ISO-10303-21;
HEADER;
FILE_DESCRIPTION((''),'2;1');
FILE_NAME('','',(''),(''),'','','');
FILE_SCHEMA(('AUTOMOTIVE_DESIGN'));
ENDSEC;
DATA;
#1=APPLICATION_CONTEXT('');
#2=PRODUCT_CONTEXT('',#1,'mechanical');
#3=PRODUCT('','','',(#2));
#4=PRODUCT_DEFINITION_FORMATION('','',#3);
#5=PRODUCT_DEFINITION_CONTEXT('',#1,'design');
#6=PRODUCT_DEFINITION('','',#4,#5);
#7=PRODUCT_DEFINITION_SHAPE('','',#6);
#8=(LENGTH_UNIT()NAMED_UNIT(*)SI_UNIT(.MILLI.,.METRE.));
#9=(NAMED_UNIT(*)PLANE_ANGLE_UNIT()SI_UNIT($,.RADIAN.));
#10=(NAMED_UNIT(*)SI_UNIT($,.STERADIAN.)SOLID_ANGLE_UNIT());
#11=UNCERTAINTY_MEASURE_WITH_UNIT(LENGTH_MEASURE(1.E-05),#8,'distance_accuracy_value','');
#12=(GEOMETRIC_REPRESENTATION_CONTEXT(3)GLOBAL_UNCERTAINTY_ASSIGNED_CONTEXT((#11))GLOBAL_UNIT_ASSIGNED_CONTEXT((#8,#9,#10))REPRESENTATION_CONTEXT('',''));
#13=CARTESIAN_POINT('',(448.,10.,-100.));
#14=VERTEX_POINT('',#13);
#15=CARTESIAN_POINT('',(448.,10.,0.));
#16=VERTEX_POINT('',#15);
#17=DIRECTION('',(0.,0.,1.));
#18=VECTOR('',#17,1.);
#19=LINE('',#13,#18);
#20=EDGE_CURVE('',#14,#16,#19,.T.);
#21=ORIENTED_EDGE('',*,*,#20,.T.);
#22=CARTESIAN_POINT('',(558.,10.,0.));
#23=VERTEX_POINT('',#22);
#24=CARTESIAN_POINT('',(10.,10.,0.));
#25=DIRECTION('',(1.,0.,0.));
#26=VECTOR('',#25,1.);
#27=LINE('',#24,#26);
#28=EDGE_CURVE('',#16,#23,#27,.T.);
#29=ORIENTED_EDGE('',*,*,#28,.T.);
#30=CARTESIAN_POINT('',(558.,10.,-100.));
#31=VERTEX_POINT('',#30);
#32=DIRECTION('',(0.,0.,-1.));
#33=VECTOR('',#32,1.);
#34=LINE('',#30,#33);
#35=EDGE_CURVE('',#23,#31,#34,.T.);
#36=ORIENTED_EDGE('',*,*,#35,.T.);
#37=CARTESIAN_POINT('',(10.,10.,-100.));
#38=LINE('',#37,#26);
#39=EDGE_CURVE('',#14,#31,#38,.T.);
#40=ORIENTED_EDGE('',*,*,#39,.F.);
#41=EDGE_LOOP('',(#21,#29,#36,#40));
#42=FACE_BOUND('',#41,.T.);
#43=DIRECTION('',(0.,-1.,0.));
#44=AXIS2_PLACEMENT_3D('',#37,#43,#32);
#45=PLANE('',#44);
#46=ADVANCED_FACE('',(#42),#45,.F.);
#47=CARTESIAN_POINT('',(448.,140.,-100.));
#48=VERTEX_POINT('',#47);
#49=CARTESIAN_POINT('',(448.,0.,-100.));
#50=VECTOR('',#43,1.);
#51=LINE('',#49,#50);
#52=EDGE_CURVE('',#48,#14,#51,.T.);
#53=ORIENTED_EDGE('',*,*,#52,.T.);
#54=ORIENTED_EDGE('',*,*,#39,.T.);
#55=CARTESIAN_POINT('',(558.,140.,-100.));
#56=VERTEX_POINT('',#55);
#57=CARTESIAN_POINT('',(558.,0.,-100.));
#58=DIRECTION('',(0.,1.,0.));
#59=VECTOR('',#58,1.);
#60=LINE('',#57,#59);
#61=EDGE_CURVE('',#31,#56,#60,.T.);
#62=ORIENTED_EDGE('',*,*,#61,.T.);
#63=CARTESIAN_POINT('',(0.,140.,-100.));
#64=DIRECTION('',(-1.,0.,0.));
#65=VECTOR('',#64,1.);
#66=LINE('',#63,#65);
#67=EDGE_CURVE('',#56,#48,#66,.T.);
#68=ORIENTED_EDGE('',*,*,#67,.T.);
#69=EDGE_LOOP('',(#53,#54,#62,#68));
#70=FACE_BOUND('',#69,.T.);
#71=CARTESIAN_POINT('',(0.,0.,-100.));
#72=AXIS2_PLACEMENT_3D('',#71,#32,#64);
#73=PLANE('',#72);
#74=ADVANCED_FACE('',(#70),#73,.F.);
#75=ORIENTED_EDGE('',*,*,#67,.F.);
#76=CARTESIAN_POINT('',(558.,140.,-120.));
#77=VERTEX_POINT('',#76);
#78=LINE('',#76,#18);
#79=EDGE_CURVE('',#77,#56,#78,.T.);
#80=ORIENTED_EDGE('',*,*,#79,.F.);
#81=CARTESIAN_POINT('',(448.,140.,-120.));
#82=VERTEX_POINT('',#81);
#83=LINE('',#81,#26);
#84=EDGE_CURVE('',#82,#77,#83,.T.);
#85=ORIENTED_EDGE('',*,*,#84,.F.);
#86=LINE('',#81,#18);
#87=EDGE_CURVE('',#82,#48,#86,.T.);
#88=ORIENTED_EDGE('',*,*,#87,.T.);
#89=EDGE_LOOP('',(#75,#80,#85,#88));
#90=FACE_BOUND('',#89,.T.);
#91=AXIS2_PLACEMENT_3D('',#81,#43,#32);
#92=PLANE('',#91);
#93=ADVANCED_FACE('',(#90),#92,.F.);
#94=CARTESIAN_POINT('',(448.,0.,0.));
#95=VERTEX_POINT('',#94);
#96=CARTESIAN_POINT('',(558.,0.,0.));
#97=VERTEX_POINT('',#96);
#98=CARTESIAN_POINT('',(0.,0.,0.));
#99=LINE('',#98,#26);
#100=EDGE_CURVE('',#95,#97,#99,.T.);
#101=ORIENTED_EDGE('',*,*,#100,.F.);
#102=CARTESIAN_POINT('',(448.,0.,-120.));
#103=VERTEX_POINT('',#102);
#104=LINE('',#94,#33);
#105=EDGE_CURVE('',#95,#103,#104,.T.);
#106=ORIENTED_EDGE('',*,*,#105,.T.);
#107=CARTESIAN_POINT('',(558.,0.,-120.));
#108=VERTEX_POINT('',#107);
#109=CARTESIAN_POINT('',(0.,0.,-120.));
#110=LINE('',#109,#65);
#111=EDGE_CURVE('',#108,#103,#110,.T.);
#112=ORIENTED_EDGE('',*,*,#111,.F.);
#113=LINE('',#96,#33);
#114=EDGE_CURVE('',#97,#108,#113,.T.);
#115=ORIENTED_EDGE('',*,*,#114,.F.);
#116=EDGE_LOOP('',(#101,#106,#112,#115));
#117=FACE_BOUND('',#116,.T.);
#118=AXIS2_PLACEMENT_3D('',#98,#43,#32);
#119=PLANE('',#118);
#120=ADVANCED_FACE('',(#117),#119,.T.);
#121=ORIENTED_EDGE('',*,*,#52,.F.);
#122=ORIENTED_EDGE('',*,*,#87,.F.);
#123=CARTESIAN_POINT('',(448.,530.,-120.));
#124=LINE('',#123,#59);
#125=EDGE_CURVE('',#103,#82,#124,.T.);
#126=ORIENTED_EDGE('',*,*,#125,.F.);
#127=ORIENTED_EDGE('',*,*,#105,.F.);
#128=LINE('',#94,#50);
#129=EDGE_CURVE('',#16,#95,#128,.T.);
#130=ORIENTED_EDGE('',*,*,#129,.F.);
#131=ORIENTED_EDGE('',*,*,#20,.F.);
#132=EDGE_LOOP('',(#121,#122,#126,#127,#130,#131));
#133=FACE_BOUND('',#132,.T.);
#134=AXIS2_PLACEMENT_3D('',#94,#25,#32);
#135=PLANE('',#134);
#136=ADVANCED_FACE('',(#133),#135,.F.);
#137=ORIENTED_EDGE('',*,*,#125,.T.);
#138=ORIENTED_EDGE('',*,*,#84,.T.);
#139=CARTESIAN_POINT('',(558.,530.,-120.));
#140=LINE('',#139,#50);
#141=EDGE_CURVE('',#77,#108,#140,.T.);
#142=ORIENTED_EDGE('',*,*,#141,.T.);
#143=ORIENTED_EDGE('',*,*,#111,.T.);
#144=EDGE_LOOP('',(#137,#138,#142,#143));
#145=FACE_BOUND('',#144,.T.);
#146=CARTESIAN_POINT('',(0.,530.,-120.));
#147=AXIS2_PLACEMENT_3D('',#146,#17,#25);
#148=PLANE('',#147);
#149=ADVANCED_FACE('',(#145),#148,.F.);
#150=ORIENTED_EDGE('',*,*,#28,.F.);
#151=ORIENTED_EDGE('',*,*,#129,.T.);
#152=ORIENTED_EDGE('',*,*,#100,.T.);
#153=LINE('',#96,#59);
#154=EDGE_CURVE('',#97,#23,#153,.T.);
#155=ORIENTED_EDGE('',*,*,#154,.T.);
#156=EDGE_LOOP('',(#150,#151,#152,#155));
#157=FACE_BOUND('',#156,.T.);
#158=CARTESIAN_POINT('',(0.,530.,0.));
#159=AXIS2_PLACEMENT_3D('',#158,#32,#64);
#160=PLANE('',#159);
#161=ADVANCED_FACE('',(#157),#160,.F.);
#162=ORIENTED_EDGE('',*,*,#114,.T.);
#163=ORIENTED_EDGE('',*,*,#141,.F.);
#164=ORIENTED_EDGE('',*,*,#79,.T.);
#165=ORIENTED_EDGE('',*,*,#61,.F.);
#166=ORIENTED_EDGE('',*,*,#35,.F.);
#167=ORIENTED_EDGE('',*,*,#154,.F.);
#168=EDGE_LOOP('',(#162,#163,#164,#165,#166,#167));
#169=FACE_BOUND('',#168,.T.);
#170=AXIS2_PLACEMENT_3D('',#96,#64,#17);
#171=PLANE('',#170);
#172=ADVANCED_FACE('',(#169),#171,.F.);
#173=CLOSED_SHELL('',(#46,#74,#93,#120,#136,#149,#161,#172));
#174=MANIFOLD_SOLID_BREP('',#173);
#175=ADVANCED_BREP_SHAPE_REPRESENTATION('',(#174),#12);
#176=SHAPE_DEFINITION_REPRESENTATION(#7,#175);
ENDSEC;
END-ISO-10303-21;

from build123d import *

# Parameters (mm, degrees)
SKETCH1_W                      = 670
SKETCH1_H                      = 120
BOSS_EXTRUDE1_DEPTH            = 530
SKETCH2_W                      = 100
SKETCH2_H                      = 200
SKETCH2_W_2                    = 650
SKETCH2_H_2                    = 250
CUT_EXTRUDE1_DEPTH             = 100
SKETCH3_R                      = 50
CUT_EXTRUDE2_DEPTH             = 260
F_12_0_12_DIAMETER_HOLE2_D     = 12
F_12_0_12_DIAMETER_HOLE2_DEPTH = 30
F_12_0_12_DIAMETER_HOLE2_TIP   = 3.605163714
SKETCH8_W                      = 650
SKETCH8_H                      = 50
BOSS_EXTRUDE2_DEPTH            = 5
SKETCH9_W                      = 10
SKETCH9_H                      = 250
CUT_EXTRUDE3_DEPTH             = 717
CUT_EXTRUDE4_DEPTH             = 5
SKETCH11_W                     = 10
SKETCH11_H                     = 100
BOSS_EXTRUDE3_DEPTH            = 78
BOSS_EXTRUDE3_2_DEPTH          = 78
BOSS_EXTRUDE3_3_DEPTH          = 78
SKETCH12_W                     = 20
SKETCH12_H                     = 30
CUT_EXTRUDE5_DEPTH             = 80
SKETCH15_W                     = 30
SKETCH15_H                     = 23.536156656
SKETCH15_H_2                   = 28.986603691
CUT_EXTRUDE7_DEPTH             = 35
SHELL1_T                       = -3
SKETCH16_W                     = 14
SKETCH16_H                     = 14
CUT_EXTRUDE8_DEPTH             = 35
SKETCH17_W                     = 5.729882812
SKETCH17_H                     = 17.428393554
SKETCH17_W_2                   = 13.369726562
SKETCH17_H_2                   = 3.342431641
BOSS_EXTRUDE4_DEPTH            = 5
CUT_EXTRUDE10_DEPTH            = 863.670273187
CUT_EXTRUDE10_DEPTH_BACK       = 863.670273187
SKETCH18_W                     = 670
SKETCH18_H                     = 250
CUT_EXTRUDE11_DEPTH            = 737.002717386
CUT_EXTRUDE11_DEPTH_BACK       = 737.002717386
SKETCH19_W                     = 448
SKETCH19_H                     = 280
SKETCH19_W_2                   = 112
CUT_EXTRUDE12_DEPTH            = 633.268930124
CUT_EXTRUDE12_DEPTH_BACK       = 633.268930124
SKETCH20_W                     = 110
SKETCH20_H                     = 140


with BuildPart() as part:
    # Sketch1 → Boss-Extrude1 (new body)
    with BuildSketch(Plane(origin=(0, 0, 0), x_dir=(1, 0, 0), z_dir=(0, 1, 0))):
        with Locations((335, 60)):
            Rectangle(SKETCH1_W, SKETCH1_H)
    extrude(amount=BOSS_EXTRUDE1_DEPTH)

    # Sketch2 → Cut-Extrude1 (cut)
    with BuildSketch(Plane.XY):
        with Locations((60, 380)):
            Rectangle(SKETCH2_W, SKETCH2_H)
        with Locations((170, 380)):
            Rectangle(SKETCH2_W, SKETCH2_H)
        with Locations((280, 380)):
            Rectangle(SKETCH2_W, SKETCH2_H)
        with Locations((390, 380)):
            Rectangle(SKETCH2_W, SKETCH2_H)
        with Locations((500, 380)):
            Rectangle(SKETCH2_W, SKETCH2_H)
        with Locations((610, 380)):
            Rectangle(SKETCH2_W, SKETCH2_H)
        with Locations((335, 135)):
            Rectangle(SKETCH2_W_2, SKETCH2_H_2)
    extrude(amount=-CUT_EXTRUDE1_DEPTH, mode=Mode.SUBTRACT)

    # Sketch3 → Cut-Extrude2 (cut)
    with BuildSketch(Plane(origin=(0, 530, 0), x_dir=(1, 0, 0), z_dir=(0, 1, 0))):
        with Locations(Location((60, 60, 0), (0, 0, 270))):
            Circle(SKETCH3_R)
        with Locations(Location((170, 60, 0), (0, 0, 270))):
            Circle(SKETCH3_R)
        with Locations(Location((280, 60, 0), (0, 0, 270))):
            Circle(SKETCH3_R)
        with Locations(Location((390, 60, 0), (0, 0, 270))):
            Circle(SKETCH3_R)
        with Locations(Location((500, 60, 0), (0, 0, 270))):
            Circle(SKETCH3_R)
        with Locations(Location((610, 60, 0), (0, 0, 270))):
            Circle(SKETCH3_R)
    extrude(amount=-CUT_EXTRUDE2_DEPTH, mode=Mode.SUBTRACT)

    # Ø12.0 (12) Diameter Hole2
    with Locations(Plane(origin=(59.704642413, 270, -102.411697903), x_dir=(0, 0, 1), z_dir=(0, 1, 0))):
        with Locations((0, 0), (-0.195888006, 111.8520513), (0.014838595, 221.167624818), (-0.341843303, 331.364008353), (0.657723149, 441.008646429), (1.288998006, 549.811854685)):
            Hole(F_12_0_12_DIAMETER_HOLE2_D / 2, depth=F_12_0_12_DIAMETER_HOLE2_DEPTH)
            with Locations((0, 0, -(F_12_0_12_DIAMETER_HOLE2_DEPTH + F_12_0_12_DIAMETER_HOLE2_TIP / 2))):  # 118° drill point
                Cone(0, F_12_0_12_DIAMETER_HOLE2_D / 2, F_12_0_12_DIAMETER_HOLE2_TIP, mode=Mode.SUBTRACT)

    # Sketch8 → Boss-Extrude2 (add)
    with BuildSketch(Plane.XY):
        with Locations((335, 305)):
            Rectangle(SKETCH8_W, SKETCH8_H)
    extrude(amount=-BOSS_EXTRUDE2_DEPTH)

    # Sketch9 → Cut-Extrude3 (cut)
    with BuildSketch(Plane(origin=(670, 0, 0), x_dir=(0, 0, -1), z_dir=(1, 0, 0))):
        with Locations((15, 135)):
            Rectangle(SKETCH9_W, SKETCH9_H)
    extrude(amount=-CUT_EXTRUDE3_DEPTH, mode=Mode.SUBTRACT)

    # Sketch10 → Cut-Extrude4 (cut)
    with BuildSketch(Plane(origin=(0, 10, 0), x_dir=(1, 0, 0), z_dir=(0, 1, 0))):
        Polygon((365, 61.943560596), (350, 87.924322709), (320, 87.924322709), (305, 61.943560596), (320, 35.962798482), (350, 35.962798482), align=None)
    extrude(amount=-CUT_EXTRUDE4_DEPTH, mode=Mode.SUBTRACT)

    # Sketch12 → Cut-Extrude5 (cut)
    with BuildSketch(Plane.XY.offset(-100)):
        with Locations((85.198613037, 245)):
            Rectangle(SKETCH12_W, SKETCH12_H)
        with Locations((195.198613037, 245)):
            Rectangle(SKETCH12_W, SKETCH12_H)
        with Locations((305.198613037, 245)):
            Rectangle(SKETCH12_W, SKETCH12_H)
        with Locations((415.198613037, 245)):
            Rectangle(SKETCH12_W, SKETCH12_H)
        with Locations((525.198613037, 245)):
            Rectangle(SKETCH12_W, SKETCH12_H)
        with Locations((635.198613037, 245)):
            Rectangle(SKETCH12_W, SKETCH12_H)
    extrude(amount=-CUT_EXTRUDE5_DEPTH, mode=Mode.SUBTRACT)

    # Sketch17 → Boss-Extrude4 (add)
    # profile 1 of 9: a face of its own
    with BuildSketch(Plane.XY):
        with BuildLine():
            Line((527.508830928, 289.835452458), (527.508830928, 307.263846012))
            Line((527.508830928, 307.263846012), (534.861434459, 307.263846012))
            add(Edge.make_bspline(
                [(534.861434459, 307.263846012), (535.181337774, 307.258256848), (535.803061116, 307.24739446), (536.703508491, 307.139069344), (537.544992916, 306.975202489), (538.325061607, 306.737496792), (539.040841948, 306.426020155), (539.698044515, 306.051894954), (540.290333057, 305.605079277), (540.822348212, 305.090232636), (541.284521701, 304.502523111), (541.692171296, 303.852565801), (542.030284458, 303.129762281), (542.309377095, 302.341316546), (542.5243908, 301.484161689), (542.679660381, 300.560045938), (542.773357357, 299.567500804), (542.783368073, 298.883107022), (542.788518428, 298.530997273)],
                knots=[0, 0, 0, 0, 1.135059408, 2.20595691, 3.214417064, 4.174978569, 5.094187092, 5.980001006, 6.853065862, 7.720814779, 8.600404634, 9.50058483, 10.438414914, 11.426825708, 12.465239141, 13.571113463, 14.750376389, 16, 16, 16, 16], degree=3))
            add(Edge.make_bspline(
                [(542.788518428, 298.530997273), (542.781740751, 298.180151665), (542.768592871, 297.499553336), (542.676885992, 296.511518461), (542.516733301, 295.591080531), (542.296748778, 294.736450427), (542.003051046, 293.953120444), (541.654236167, 293.233205539), (541.233025793, 292.585291498), (540.753136904, 292.000029304), (540.204772188, 291.484681411), (539.587651059, 291.044279297), (538.910779309, 290.668464036), (538.169670382, 290.361903209), (537.364073889, 290.124869172), (536.495133477, 289.954199984), (535.562644449, 289.853487388), (534.920131033, 289.841584621), (534.58911581, 289.835452458)],
                knots=[0, 0, 0, 0, 1.228418252, 2.382983832, 3.470276728, 4.496757894, 5.468023682, 6.394867725, 7.292157164, 8.167372942, 9.039072913, 9.918728341, 10.815246345, 11.744296628, 12.720973084, 13.750736166, 14.841206188, 16, 16, 16, 16], degree=3))
            Line((534.58911581, 289.835452458), (527.508830928, 289.835452458))
        make_face()
        with BuildLine():
            Line((533.238713741, 291.745413395), (534.048208904, 291.745413395))
            add(Edge.make_bspline(
                [(534.048208904, 291.745413395), (534.172894012, 291.749291978), (534.413033311, 291.756761998), (534.758676231, 291.825976613), (535.075745017, 291.938271137), (535.365749176, 292.094802589), (535.623404602, 292.300450923), (535.848862806, 292.551404902), (536.04776914, 292.844737637), (536.217685755, 293.190205032), (536.364284647, 293.596533622), (536.481764702, 294.076367921), (536.592118304, 294.630928744), (536.673672739, 295.265507643), (536.740044562, 295.978448886), (536.788346679, 296.768428292), (536.812018936, 297.636801208), (536.817188964, 298.241258393), (536.819890499, 298.55711002)],
                knots=[0, 0, 0, 0, 0.728710832, 1.403472396, 2.052289494, 2.690292559, 3.321919393, 3.970736491, 4.656696891, 5.388631723, 6.217040872, 7.17856157, 8.275589967, 9.523440737, 10.918935818, 12.463926104, 14.152268318, 16, 16, 16, 16], degree=3))
            add(Edge.make_bspline(
                [(536.819890499, 298.55711002), (536.8171426, 298.871715251), (536.811863063, 299.476166083), (536.7886758, 300.343334385), (536.739579947, 301.133216935), (536.674703848, 301.843934916), (536.589660404, 302.476324031), (536.488366458, 303.031681737), (536.362441588, 303.507627045), (536.222158727, 303.914921549), (536.050140993, 304.256514038), (535.858357073, 304.554097881), (535.62547107, 304.79746827), (535.36991257, 305.004888479), (535.079348843, 305.160875844), (534.761320266, 305.273944358), (534.414185903, 305.34216807), (534.172870641, 305.349893944), (534.048208904, 305.353885075)],
                knots=[0, 0, 0, 0, 1.842836665, 3.540640921, 5.080358154, 6.47765669, 7.719902824, 8.816971715, 9.781579111, 10.601733135, 11.334613876, 12.017393917, 12.666641099, 13.29908421, 13.937911793, 14.587567384, 15.270347425, 16, 16, 16, 16], degree=3))
            Line((534.048208904, 305.353885075), (533.238713741, 305.353885075))
            Line((533.238713741, 305.353885075), (533.238713741, 291.745413395))
        make_face(mode=Mode.SUBTRACT)
    # profile 2 of 9: a face of its own
    with BuildSketch(Plane.XY):
        with Locations((547.563420772, 298.549649235)):
            Rectangle(SKETCH17_W, SKETCH17_H)
    # profile 3 of 9: a face of its own
    with BuildSketch(Plane.XY):
        Polygon((564.514324092, 307.263846012), (564.514324092, 305.115139958), (558.545696163, 305.115139958), (558.545696163, 299.862747379), (563.559343624, 299.862747379), (563.559343624, 297.714041325), (558.545696163, 297.714041325), (558.545696163, 289.835452458), (552.81581335, 289.835452458), (552.81581335, 307.263846012), align=None)
    # profile 4 of 9: a face of its own
    with BuildSketch(Plane.XY):
        Polygon((577.645305538, 307.263846012), (577.645305538, 305.115139958), (571.676677608, 305.115139958), (571.676677608, 299.862747379), (576.690325069, 299.862747379), (576.690325069, 297.714041325), (571.676677608, 297.714041325), (571.676677608, 289.835452458), (565.946794795, 289.835452458), (565.946794795, 307.263846012), align=None)
    # profile 5 of 9: a face of its own
    with BuildSketch(Plane.XY):
        with Locations((584.330168819, 287.448001286)):
            Rectangle(SKETCH17_W_2, SKETCH17_H_2)
    # profile 6 of 9: a face of its own
    with BuildSketch(Plane.XY):
        with BuildLine():
            Line((605.578484249, 307.263846012), (605.578484249, 295.602639195))
            add(Edge.make_bspline(
                [(605.578484249, 295.602639195), (605.574209777, 295.35989389), (605.565919345, 294.889083964), (605.480877158, 294.20653885), (605.349958188, 293.569747554), (605.15926554, 292.978838165), (604.911867049, 292.436847071), (604.616163877, 291.936663973), (604.260702644, 291.487723021), (603.847299908, 291.08966617), (603.386881991, 290.731670113), (602.867295001, 290.425440037), (602.293741958, 290.168488385), (601.66690529, 289.960990771), (600.988052682, 289.797299786), (600.254912883, 289.679078851), (599.467035781, 289.60781007), (598.923618241, 289.60048219), (598.643684673, 289.59670734)],
                knots=[0, 0, 0, 0, 1.108173197, 2.149326602, 3.136215123, 4.073726706, 4.978516626, 5.852185058, 6.72141202, 7.584905625, 8.467554395, 9.379216169, 10.332422268, 11.332766067, 12.390653242, 13.518530507, 14.721707419, 16, 16, 16, 16], degree=3))
            add(Edge.make_bspline(
                [(598.643684673, 289.59670734), (598.373688491, 289.600411437), (597.851346557, 289.607577482), (597.093280473, 289.679448684), (596.387523889, 289.797736542), (595.733050135, 289.960122315), (595.130189942, 290.169220301), (594.579048171, 290.42623041), (594.078350789, 290.732835498), (593.633858028, 291.090104794), (593.234289459, 291.486851767), (592.899913678, 291.940746827), (592.609043638, 292.435866034), (592.375223767, 292.980322997), (592.191754821, 293.570441519), (592.063541006, 294.20666921), (591.983676196, 294.889343196), (591.974661767, 295.359932437), (591.970012569, 295.602639195)],
                knots=[0, 0, 0, 0, 1.258901956, 2.435505865, 3.547148904, 4.59359074, 5.576649289, 6.5183682, 7.424469602, 8.307507093, 9.172751023, 10.042627298, 10.928839176, 11.845659241, 12.799442865, 13.80597989, 14.868432463, 16, 16, 16, 16], degree=3))
            Line((591.970012569, 295.602639195), (591.970012569, 307.263846012))
            Line((591.970012569, 307.263846012), (597.699895381, 307.263846012))
            Line((597.699895381, 307.263846012), (597.699895381, 295.457153889))
            add(Edge.make_bspline(
                [(597.699895381, 295.457153889), (597.700816195, 295.287996189), (597.702584578, 294.963135903), (597.729908723, 294.499051493), (597.768241004, 294.079064133), (597.828226169, 293.705517832), (597.90066041, 293.377063412), (597.989882091, 293.09281535), (598.094998068, 292.852496478), (598.225239063, 292.654232043), (598.380826623, 292.495135011), (598.55368342, 292.353231761), (598.757556996, 292.238543846), (598.987648905, 292.146224908), (599.243380948, 292.070549638), (599.526120553, 292.020376099), (599.83553351, 291.990763905), (600.049971942, 291.986424568), (600.161954402, 291.984158512)],
                knots=[0, 0, 0, 0, 1.622370975, 3.115695595, 4.458049099, 5.666011203, 6.742434742, 7.681714947, 8.519814998, 9.250928664, 9.942747364, 10.646898194, 11.389596108, 12.175933929, 13.021386247, 13.943159715, 14.925891993, 16, 16, 16, 16], degree=3))
            add(Edge.make_bspline(
                [(600.161954402, 291.984158512), (600.283927219, 291.987190593), (600.521124756, 291.993087005), (600.86597014, 292.03390861), (601.187714881, 292.103380086), (601.484890424, 292.205377303), (601.758665297, 292.332852529), (602.012761516, 292.484567923), (602.236391413, 292.674631152), (602.439076761, 292.888441291), (602.620738276, 293.128529789), (602.771757722, 293.399928575), (602.905501548, 293.697121508), (603.005823683, 294.025060118), (603.089837826, 294.379999499), (603.146989706, 294.763086929), (603.186210275, 295.174074524), (603.189394751, 295.457053988), (603.191033077, 295.602639195)],
                knots=[0, 0, 0, 0, 1.083870311, 2.107775948, 3.08105344, 4.003637981, 4.893545291, 5.761570557, 6.624657808, 7.49233129, 8.376387281, 9.291996285, 10.246843261, 11.267344133, 12.334180325, 13.486053461, 14.706643157, 16, 16, 16, 16], degree=3))
            Line((603.191033077, 295.602639195), (603.191033077, 307.263846012))
            Line((603.191033077, 307.263846012), (605.578484249, 307.263846012))
        make_face()
    # profile 7 of 9: a face of its own
    with BuildSketch(Plane.XY):
        with BuildLine():
            Line((619.731593227, 302.015183827), (616.739818477, 301.526502415))
            add(Edge.make_bspline(
                [(616.739818477, 301.526502415), (616.748849224, 301.670726223), (616.765660669, 301.939210177), (616.78429066, 302.312269209), (616.796668381, 302.625642376), (616.798628236, 302.814722915), (616.799504756, 302.899286839)],
                knots=[0, 0, 0, 0, 1.261802504, 2.348944521, 3.261585937, 4, 4, 4, 4], degree=3))
            add(Edge.make_bspline(
                [(616.799504756, 302.899286839), (616.798306068, 303.007660677), (616.795968139, 303.219033721), (616.750451916, 303.523894877), (616.694806916, 303.811547356), (616.604352699, 304.076787391), (616.488181329, 304.320314265), (616.348943917, 304.543955606), (616.184187178, 304.745078709), (615.995833421, 304.928129987), (615.778009957, 305.083200131), (615.536269472, 305.218702836), (615.269765326, 305.333844758), (614.978065514, 305.431346685), (614.660683072, 305.504624438), (614.319025281, 305.556776695), (613.952471696, 305.585673441), (613.699597795, 305.590260771), (613.568984889, 305.592630192)],
                knots=[0, 0, 0, 0, 1.079280541, 2.105035848, 3.067950317, 3.99715044, 4.889989748, 5.753421302, 6.617030865, 7.476358039, 8.364190572, 9.274590025, 10.235106994, 11.254473582, 12.337095886, 13.478601727, 14.697662529, 16, 16, 16, 16], degree=3))
            add(Edge.make_bspline(
                [(613.568984889, 305.592630192), (613.391954632, 305.58912286), (613.059112606, 305.582528579), (612.595688488, 305.495339748), (612.198743126, 305.361419257), (611.87165349, 305.163811893), (611.613188167, 304.909795747), (611.433841092, 304.593316589), (611.323009072, 304.224665915), (611.313400221, 303.959558324), (611.308367061, 303.820693775)],
                knots=[0, 0, 0, 0, 1.294917039, 2.43462794, 3.440028966, 4.347597256, 5.210608309, 6.06356377, 6.985685997, 8, 8, 8, 8], degree=3))
            add(Edge.make_bspline(
                [(611.308367061, 303.820693775), (611.317562032, 303.705133219), (611.336106628, 303.472068433), (611.47315858, 303.132808312), (611.695999602, 302.811560885), (612.009295906, 302.510664216), (612.404107796, 302.221967273), (612.884407504, 301.948533431), (613.450813789, 301.688189695), (613.862519081, 301.536023727), (614.080048656, 301.455624958)],
                knots=[0, 0, 0, 0, 0.716839541, 1.445735977, 2.240793036, 3.131329288, 4.131129903, 5.273471266, 6.559404876, 8, 8, 8, 8], degree=3))
            add(Edge.make_bspline(
                [(614.080048656, 301.455624958), (614.335934702, 301.364918412), (614.834564244, 301.188164095), (615.547657928, 300.88707802), (616.213068388, 300.5749594), (616.829579094, 300.246613346), (617.397833174, 299.90520698), (617.914851624, 299.544556457), (618.386199073, 299.173962102), (618.807001026, 298.783874588), (619.177995113, 298.378100064), (619.4958685, 297.952745357), (619.771807525, 297.51723103), (619.991113975, 297.061458502), (620.169645242, 296.594624218), (620.292698657, 296.11024444), (620.364288243, 295.609761088), (620.37516617, 295.270864226), (620.380681514, 295.099036213)],
                knots=[0, 0, 0, 0, 1.359488612, 2.649152603, 3.874964776, 5.039588756, 6.146130126, 7.193090393, 8.194917302, 9.146793662, 10.063845301, 10.944476293, 11.803344532, 12.641736646, 13.473440096, 14.302714936, 15.139439897, 16, 16, 16, 16], degree=3))
            add(Edge.make_bspline(
                [(620.380681514, 295.099036213), (620.374476075, 294.902306495), (620.362285176, 294.515820995), (620.280160209, 293.948630617), (620.138011896, 293.409496554), (619.938489338, 292.895972278), (619.681049879, 292.411946655), (619.366518754, 291.954381076), (618.996510229, 291.525099427), (618.5710008, 291.128381035), (618.102222518, 290.765302239), (617.587803957, 290.450854345), (617.034458515, 290.187092261), (616.444107988, 289.968993032), (615.81453624, 289.801373099), (615.145337453, 289.685291013), (614.438790193, 289.606619894), (613.954683001, 289.600062276), (613.70700941, 289.59670734)],
                knots=[0, 0, 0, 0, 0.972121714, 1.909782367, 2.824924061, 3.721832975, 4.62620438, 5.527836938, 6.46026819, 7.421000932, 8.398101015, 9.385579713, 10.394244048, 11.422703992, 12.491421888, 13.608778581, 14.776629625, 16, 16, 16, 16], degree=3))
            add(Edge.make_bspline(
                [(613.70700941, 289.59670734), (613.445745367, 289.599650312), (612.939893069, 289.605348413), (612.207608113, 289.66709241), (611.525297432, 289.760984454), (610.893395078, 289.899706116), (610.309273131, 290.072394336), (609.776099392, 290.288320955), (609.295310255, 290.547303481), (608.863217672, 290.843007892), (608.478306623, 291.175775461), (608.148120946, 291.551766865), (607.86942369, 291.967163224), (607.639947144, 292.421521488), (607.466477665, 292.917583541), (607.339164663, 293.449829748), (607.264537999, 294.021332449), (607.254747521, 294.414908557), (607.249700069, 294.617815586)],
                knots=[0, 0, 0, 0, 1.342201143, 2.598733168, 3.773451092, 4.878874364, 5.91991243, 6.900006476, 7.829142054, 8.72062616, 9.585588575, 10.436728592, 11.283829734, 12.149664931, 13.044964919, 13.977937424, 14.957531465, 16, 16, 16, 16], degree=3))
            add(Edge.make_bspline(
                [(607.249700069, 294.617815586), (607.250803815, 294.692425759), (607.253213998, 294.855347393), (607.260452266, 295.122772538), (607.275636683, 295.433682216), (607.29037174, 295.656130545), (607.298195171, 295.774237248)],
                knots=[0, 0, 0, 0, 0.773500207, 1.689044709, 2.77302154, 4, 4, 4, 4], degree=3))
            Line((607.298195171, 295.774237248), (610.36457777, 296.337526509))
            add(Edge.make_bspline(
                [(610.36457777, 296.337526509), (610.326952988, 296.136337493), (610.255606535, 295.754830366), (610.178678473, 295.21219969), (610.124206629, 294.733311493), (610.11767002, 294.435147371), (610.114641475, 294.297001835)],
                knots=[0, 0, 0, 0, 1.192988372, 2.262218769, 3.194850416, 4, 4, 4, 4], degree=3))
            add(Edge.make_bspline(
                [(610.114641475, 294.297001835), (610.116191817, 294.183708768), (610.119182568, 293.965156219), (610.159053378, 293.648552813), (610.215988606, 293.352999663), (610.302906772, 293.079707227), (610.411206928, 292.826307836), (610.544682453, 292.59538211), (610.704385489, 292.386485019), (610.887496571, 292.200099922), (611.094689168, 292.033628705), (611.327456494, 291.892756696), (611.58347653, 291.771733922), (611.864681562, 291.677479524), (612.167961721, 291.596080628), (612.497219749, 291.548235723), (612.849461228, 291.512043782), (613.092629543, 291.508500084), (613.218327999, 291.506668278)],
                knots=[0, 0, 0, 0, 1.135776692, 2.191015738, 3.19649269, 4.151244236, 5.061952528, 5.956281389, 6.819534407, 7.692823504, 8.571441916, 9.478554956, 10.416037156, 11.406231466, 12.450054172, 13.561596327, 14.739541482, 16, 16, 16, 16], degree=3))
            add(Edge.make_bspline(
                [(613.218327999, 291.506668278), (613.423996012, 291.510791273), (613.810619321, 291.518541853), (614.349272542, 291.616708407), (614.810575885, 291.768742445), (615.189785268, 291.991387532), (615.490778961, 292.278756613), (615.698005174, 292.637320004), (615.824813318, 293.05638326), (615.837728413, 293.355975238), (615.844524288, 293.513619419)],
                knots=[0, 0, 0, 0, 1.308765556, 2.460272085, 3.475015317, 4.388076298, 5.239673503, 6.095681635, 6.997954785, 8, 8, 8, 8], degree=3))
            add(Edge.make_bspline(
                [(615.844524288, 293.513619419), (615.833808824, 293.638242951), (615.811807312, 293.894126055), (615.644884004, 294.264515838), (615.382382362, 294.620631473), (615.016807277, 294.962984909), (614.551376589, 295.293471235), (613.986957743, 295.616730224), (613.322148235, 295.933112033), (612.83677959, 296.119639164), (612.580430889, 296.21815395)],
                knots=[0, 0, 0, 0, 0.667930748, 1.371427933, 2.146459016, 3.034714139, 4.04893387, 5.207327294, 6.525042705, 8, 8, 8, 8], degree=3))
            add(Edge.make_bspline(
                [(612.580430889, 296.21815395), (612.374354345, 296.29679374), (611.970646869, 296.450850434), (611.394079385, 296.713586304), (610.853066711, 296.987016804), (610.357486361, 297.288235735), (609.896382561, 297.599610528), (609.477036946, 297.932256792), (609.09841673, 298.284556341), (608.758710772, 298.653375077), (608.457302107, 299.038989264), (608.199448649, 299.444659231), (607.977533299, 299.866789834), (607.798609588, 300.308107488), (607.65975715, 300.767821241), (607.559616231, 301.244439392), (607.497905054, 301.739995674), (607.491630423, 302.075933546), (607.488445186, 302.246468159)],
                knots=[0, 0, 0, 0, 1.249558333, 2.447906163, 3.58867143, 4.682264114, 5.731748367, 6.739728761, 7.711906036, 8.659384707, 9.578321416, 10.481344598, 11.379544271, 12.277135726, 13.175418307, 14.097160112, 15.034047388, 16, 16, 16, 16], degree=3))
            add(Edge.make_bspline(
                [(607.488445186, 302.246468159), (607.49282555, 302.439538736), (607.501402184, 302.817565692), (607.587451154, 303.36980586), (607.719291893, 303.894921371), (607.910558542, 304.389343064), (608.156192894, 304.852853762), (608.453187669, 305.288766511), (608.804241719, 305.697593471), (609.213503754, 306.066686531), (609.657214714, 306.407618241), (610.14376173, 306.697651931), (610.658716537, 306.950861947), (611.210636666, 307.148827868), (611.791820619, 307.313252612), (612.408080529, 307.421140415), (613.056315391, 307.490701612), (613.499160755, 307.498567824), (613.725661373, 307.502591129)],
                knots=[0, 0, 0, 0, 1.01033566, 1.978209831, 2.919499157, 3.840961976, 4.746855014, 5.660740114, 6.597989116, 7.56120833, 8.541877795, 9.523498025, 10.522416858, 11.542172371, 12.589598349, 13.681636521, 14.814234488, 16, 16, 16, 16], degree=3))
            add(Edge.make_bspline(
                [(613.725661373, 307.502591129), (613.968269855, 307.498219033), (614.438190994, 307.489750488), (615.120391152, 307.426787419), (615.755073228, 307.319142339), (616.345153155, 307.171557286), (616.887304575, 306.977590666), (617.384933999, 306.742393454), (617.834452216, 306.46201507), (618.236961315, 306.139451502), (618.593086714, 305.773322851), (618.897467704, 305.361641069), (619.158701245, 304.909408454), (619.366684143, 304.412232174), (619.529870326, 303.873247147), (619.649133834, 303.29158184), (619.720420497, 302.667301443), (619.72779778, 302.236712324), (619.731593227, 302.015183827)],
                knots=[0, 0, 0, 0, 1.248314423, 2.417925914, 3.521398822, 4.558068205, 5.543720209, 6.479599284, 7.385061127, 8.263440163, 9.127722873, 10.00561236, 10.891325273, 11.808802823, 12.772251995, 13.784947978, 14.860405143, 16, 16, 16, 16], degree=3))
        make_face()
    # profile 8 of 9: a face of its own
    with BuildSketch(Plane.XY):
        Polygon((633.989153194, 307.263846012), (633.989153194, 305.115139958), (628.020525264, 305.115139958), (628.020525264, 300.340237614), (633.034172725, 300.340237614), (633.034172725, 298.191531559), (628.020525264, 298.191531559), (628.020525264, 291.984158512), (634.944133663, 291.984158512), (634.944133663, 289.835452458), (622.290642452, 289.835452458), (622.290642452, 307.263846012), align=None)
    # profile 9 of 9: a face of its own
    with BuildSketch(Plane.XY):
        with BuildLine():
            Line((636.376604366, 289.835452458), (636.376604366, 307.263846012))
            Line((636.376604366, 307.263846012), (643.990335369, 307.263846012))
            add(Edge.make_bspline(
                [(643.990335369, 307.263846012), (644.237946498, 307.261150834), (644.721600887, 307.25588639), (645.426490561, 307.189203683), (646.094808274, 307.090496236), (646.724915796, 306.949857504), (647.317873659, 306.767252686), (647.871119087, 306.542146), (648.390701058, 306.282329135), (648.864494846, 305.976472528), (649.295093616, 305.642889252), (649.669668547, 305.279483604), (649.990389523, 304.894749072), (650.250664962, 304.483256345), (650.454275633, 304.048690948), (650.59581384, 303.587791605), (650.684089268, 303.104102537), (650.695510601, 302.772834174), (650.701311397, 302.604585835)],
                knots=[0, 0, 0, 0, 1.303269877, 2.545653735, 3.724355284, 4.8584284, 5.941462088, 6.987020715, 8.000098032, 8.995332524, 9.951400474, 10.863507538, 11.737823931, 12.582415999, 13.420128714, 14.25671499, 15.114600608, 16, 16, 16, 16], degree=3))
            add(Edge.make_bspline(
                [(650.701311397, 302.604585835), (650.698282873, 302.472674957), (650.692382063, 302.215658276), (650.651041486, 301.838684287), (650.580643818, 301.480313933), (650.481036683, 301.139915259), (650.347814833, 300.820175594), (650.191279492, 300.517863507), (650.009772227, 300.230553342), (649.788675198, 299.970497982), (649.548268341, 299.722842359), (649.274558803, 299.497116911), (648.974487035, 299.288655528), (648.642526299, 299.104010513), (648.287619671, 298.928055749), (647.899038177, 298.784921972), (647.486819978, 298.644749395), (647.19793098, 298.577036306), (647.049257183, 298.54218845)],
                knots=[0, 0, 0, 0, 1.057156483, 2.059775939, 3.035078039, 3.981068617, 4.897189472, 5.80650904, 6.70770952, 7.613691521, 8.536886357, 9.470937334, 10.45233069, 11.461024139, 12.51295332, 13.623444893, 14.776929983, 16, 16, 16, 16], degree=3))
            add(Edge.make_bspline(
                [(647.049257183, 298.54218845), (647.19164695, 298.499279419), (647.467865022, 298.416041346), (647.856360945, 298.265600017), (648.211652989, 298.111536308), (648.524185739, 297.936781388), (648.807636894, 297.762122504), (649.047122259, 297.564301324), (649.255235567, 297.361673563), (649.425188343, 297.135464734), (649.570253643, 296.882344437), (649.694827156, 296.586596707), (649.815179167, 296.247423665), (649.917667348, 295.859098311), (650.004750555, 295.423699276), (650.088222437, 294.944027189), (650.153853601, 294.416024546), (650.187587341, 294.048412906), (650.2051692, 293.856815525)],
                knots=[0, 0, 0, 0, 1.149282524, 2.229462177, 3.219229774, 4.139917433, 4.995948464, 5.788695735, 6.536448429, 7.236319808, 7.968460079, 8.78645307, 9.713791991, 10.749194692, 11.887975363, 13.146018663, 14.512518948, 16, 16, 16, 16], degree=3))
            add(Edge.make_bspline(
                [(650.2051692, 293.856815525), (650.225980287, 293.627849833), (650.265975604, 293.187817268), (650.348933081, 292.554613589), (650.44386163, 291.974357025), (650.555874504, 291.44528724), (650.681301216, 290.967898855), (650.821280597, 290.540469593), (650.979920039, 290.165788217), (651.10484481, 289.941461656), (651.163880062, 289.835452458)],
                knots=[0, 0, 0, 0, 1.324580516, 2.545615266, 3.678710841, 4.711533017, 5.660403917, 6.521349952, 7.301239649, 8, 8, 8, 8], degree=3))
            Line((651.163880062, 289.835452458), (645.213904094, 289.835452458))
            add(Edge.make_bspline(
                [(645.213904094, 289.835452458), (645.12229736, 290.069847279), (644.935171241, 290.548648246), (644.7595281, 291.319414791), (644.64846922, 292.142514735), (644.635117598, 292.70994511), (644.628232479, 293.002555653)],
                knots=[0, 0, 0, 0, 0.930410518, 1.900560147, 2.917368081, 4, 4, 4, 4], degree=3))
            Line((644.628232479, 293.002555653), (644.605850124, 294.002300831))
            Line((644.605850124, 294.002300831), (644.579737377, 295.266903874))
            add(Edge.make_bspline(
                [(644.579737377, 295.266903874), (644.573694669, 295.477395004), (644.562357007, 295.872330118), (644.469348432, 296.426164013), (644.30178735, 296.894645884), (644.073222546, 297.287223005), (643.766741442, 297.590613479), (643.39104803, 297.804152917), (642.950456912, 297.93396284), (642.634664848, 297.946292392), (642.468335247, 297.952786442)],
                knots=[0, 0, 0, 0, 1.295300309, 2.430314163, 3.439929415, 4.342995669, 5.203512789, 6.060756153, 6.978588463, 8, 8, 8, 8], degree=3))
            Line((642.468335247, 297.952786442), (642.106487178, 297.952786442))
            Line((642.106487178, 297.952786442), (642.106487178, 289.835452458))
            Line((642.106487178, 289.835452458), (636.376604366, 289.835452458))
        make_face()
        with BuildLine():
            Line((642.106487178, 299.862747379), (642.617550945, 299.862747379))
            add(Edge.make_bspline(
                [(642.617550945, 299.862747379), (642.722054451, 299.865172716), (642.925280724, 299.869889229), (643.220054897, 299.898289891), (643.494111408, 299.951809873), (643.749840966, 300.021017819), (643.984372137, 300.114851792), (644.200147241, 300.225818296), (644.391160406, 300.362685327), (644.565327067, 300.516342321), (644.718148635, 300.691986294), (644.850351299, 300.889034217), (644.961199162, 301.106225057), (645.056078491, 301.342818683), (645.125883912, 301.600830857), (645.173262731, 301.879472914), (645.203404658, 302.177423605), (645.207875435, 302.383174491), (645.210173702, 302.488943669)],
                knots=[0, 0, 0, 0, 1.184986479, 2.304423995, 3.352332712, 4.347714965, 5.303263624, 6.211353909, 7.091434645, 7.960150225, 8.839440182, 9.723126897, 10.64371617, 11.599264829, 12.608232147, 13.667459739, 14.800924404, 16, 16, 16, 16], degree=3))
            add(Edge.make_bspline(
                [(645.210173702, 302.488943669), (645.207875435, 302.594712847), (645.203404658, 302.800463732), (645.173262731, 303.098414423), (645.125883912, 303.37705648), (645.056078491, 303.635068654), (644.961199162, 303.87166228), (644.850351299, 304.08885312), (644.718148635, 304.285901043), (644.565327067, 304.461545017), (644.391160406, 304.61520201), (644.200147241, 304.752069041), (643.984372137, 304.863035546), (643.749840966, 304.956869518), (643.494111408, 305.026077464), (643.220054897, 305.079597446), (642.925280724, 305.107998108), (642.722054451, 305.112714621), (642.617550945, 305.115139958)],
                knots=[0, 0, 0, 0, 1.199075596, 2.332540261, 3.391767853, 4.400735171, 5.35628383, 6.276873103, 7.160559818, 8.039849775, 8.908565355, 9.788646091, 10.696736376, 11.652285035, 12.647667288, 13.695576005, 14.815013521, 16, 16, 16, 16], degree=3))
            Line((642.617550945, 305.115139958), (642.106487178, 305.115139958))
            Line((642.106487178, 305.115139958), (642.106487178, 299.862747379))
        make_face(mode=Mode.SUBTRACT)
    extrude(amount=BOSS_EXTRUDE4_DEPTH)

    # Sketch18 → Cut-Extrude10 (cut, two sides: drawn at the far end of the back side and taken through both)
    with BuildSketch(Plane.XY.offset(-CUT_EXTRUDE10_DEPTH_BACK)):
        with Locations((335, 405)):
            Rectangle(SKETCH18_W, SKETCH18_H)
    extrude(amount=CUT_EXTRUDE10_DEPTH + CUT_EXTRUDE10_DEPTH_BACK, mode=Mode.SUBTRACT)

    # Sketch19 → Cut-Extrude11 (cut, two sides: drawn at the far end of the back side and taken through both)
    with BuildSketch(Plane(origin=(0, 0, -120), x_dir=(-1, 0, 0), z_dir=(0, 0, -1)).offset(-CUT_EXTRUDE11_DEPTH_BACK)):
        with Locations((-224, 140)):
            Rectangle(SKETCH19_W, SKETCH19_H)
        with Locations((-614, 140)):
            Rectangle(SKETCH19_W_2, SKETCH19_H)
    extrude(amount=CUT_EXTRUDE11_DEPTH + CUT_EXTRUDE11_DEPTH_BACK, mode=Mode.SUBTRACT)

    # Sketch20 → Cut-Extrude12 (cut, two sides: drawn at the far end of the back side and taken through both)
    with BuildSketch(Plane.XY.offset(-100).offset(-CUT_EXTRUDE12_DEPTH_BACK)):
        with Locations((503, 210)):
            Rectangle(SKETCH20_W, SKETCH20_H)
    extrude(amount=CUT_EXTRUDE12_DEPTH + CUT_EXTRUDE12_DEPTH_BACK, mode=Mode.SUBTRACT)


with BuildPart() as body_2:
    # Sketch11 → Boss-Extrude3 (new body)
    with BuildSketch(Plane.XY.offset(-100)):
        with Locations((255, 60)):
            Rectangle(SKETCH11_W, SKETCH11_H)
    extrude(amount=BOSS_EXTRUDE3_DEPTH)


with BuildPart() as body_3:
    # Sketch11 → Boss-Extrude3 2 (new body)
    with BuildSketch(Plane.XY.offset(-100)):
        with Locations((415, 60)):
            Rectangle(SKETCH11_W, SKETCH11_H)
    extrude(amount=BOSS_EXTRUDE3_2_DEPTH)


with BuildPart() as body_4:
    # Sketch11 → Boss-Extrude3 3 (new body)
    with BuildSketch(Plane.XY.offset(-100)):
        Polygon((25, 198.45686471), (325, 145.558770497), (325, 122.01775856), (345, 122.01775856), (345, 145.558770497), (645, 198.45686471), align=None)
    extrude(amount=BOSS_EXTRUDE3_3_DEPTH)

    # Sketch15 → Cut-Extrude7 (cut)
    with BuildSketch(Plane(origin=(345, 0, 0), x_dir=(0, 0, -1), z_dir=(1, 0, 0))):
        with Locations((35, 133.231921672)):
            Rectangle(SKETCH15_W, SKETCH15_H)
        with Locations((85, 130.506698154)):
            Rectangle(SKETCH15_W, SKETCH15_H_2)
    extrude(amount=-CUT_EXTRUDE7_DEPTH, mode=Mode.SUBTRACT)

    # Shell1
    shell1_openings = [body_4.faces().sort_by_distance(p)[0] for p in [
        (335, 198.45686471, -61),
    ]]
    offset(amount=SHELL1_T, openings=shell1_openings, kind=Kind.INTERSECTION)

    # Sketch16 → Cut-Extrude8 (cut)
    with BuildSketch(Plane.XZ.offset(-122.01775856)):
        with Locations((335, -60)):
            Rectangle(SKETCH16_W, SKETCH16_H)
    extrude(amount=-CUT_EXTRUDE8_DEPTH, mode=Mode.SUBTRACT)


solid = part.part
